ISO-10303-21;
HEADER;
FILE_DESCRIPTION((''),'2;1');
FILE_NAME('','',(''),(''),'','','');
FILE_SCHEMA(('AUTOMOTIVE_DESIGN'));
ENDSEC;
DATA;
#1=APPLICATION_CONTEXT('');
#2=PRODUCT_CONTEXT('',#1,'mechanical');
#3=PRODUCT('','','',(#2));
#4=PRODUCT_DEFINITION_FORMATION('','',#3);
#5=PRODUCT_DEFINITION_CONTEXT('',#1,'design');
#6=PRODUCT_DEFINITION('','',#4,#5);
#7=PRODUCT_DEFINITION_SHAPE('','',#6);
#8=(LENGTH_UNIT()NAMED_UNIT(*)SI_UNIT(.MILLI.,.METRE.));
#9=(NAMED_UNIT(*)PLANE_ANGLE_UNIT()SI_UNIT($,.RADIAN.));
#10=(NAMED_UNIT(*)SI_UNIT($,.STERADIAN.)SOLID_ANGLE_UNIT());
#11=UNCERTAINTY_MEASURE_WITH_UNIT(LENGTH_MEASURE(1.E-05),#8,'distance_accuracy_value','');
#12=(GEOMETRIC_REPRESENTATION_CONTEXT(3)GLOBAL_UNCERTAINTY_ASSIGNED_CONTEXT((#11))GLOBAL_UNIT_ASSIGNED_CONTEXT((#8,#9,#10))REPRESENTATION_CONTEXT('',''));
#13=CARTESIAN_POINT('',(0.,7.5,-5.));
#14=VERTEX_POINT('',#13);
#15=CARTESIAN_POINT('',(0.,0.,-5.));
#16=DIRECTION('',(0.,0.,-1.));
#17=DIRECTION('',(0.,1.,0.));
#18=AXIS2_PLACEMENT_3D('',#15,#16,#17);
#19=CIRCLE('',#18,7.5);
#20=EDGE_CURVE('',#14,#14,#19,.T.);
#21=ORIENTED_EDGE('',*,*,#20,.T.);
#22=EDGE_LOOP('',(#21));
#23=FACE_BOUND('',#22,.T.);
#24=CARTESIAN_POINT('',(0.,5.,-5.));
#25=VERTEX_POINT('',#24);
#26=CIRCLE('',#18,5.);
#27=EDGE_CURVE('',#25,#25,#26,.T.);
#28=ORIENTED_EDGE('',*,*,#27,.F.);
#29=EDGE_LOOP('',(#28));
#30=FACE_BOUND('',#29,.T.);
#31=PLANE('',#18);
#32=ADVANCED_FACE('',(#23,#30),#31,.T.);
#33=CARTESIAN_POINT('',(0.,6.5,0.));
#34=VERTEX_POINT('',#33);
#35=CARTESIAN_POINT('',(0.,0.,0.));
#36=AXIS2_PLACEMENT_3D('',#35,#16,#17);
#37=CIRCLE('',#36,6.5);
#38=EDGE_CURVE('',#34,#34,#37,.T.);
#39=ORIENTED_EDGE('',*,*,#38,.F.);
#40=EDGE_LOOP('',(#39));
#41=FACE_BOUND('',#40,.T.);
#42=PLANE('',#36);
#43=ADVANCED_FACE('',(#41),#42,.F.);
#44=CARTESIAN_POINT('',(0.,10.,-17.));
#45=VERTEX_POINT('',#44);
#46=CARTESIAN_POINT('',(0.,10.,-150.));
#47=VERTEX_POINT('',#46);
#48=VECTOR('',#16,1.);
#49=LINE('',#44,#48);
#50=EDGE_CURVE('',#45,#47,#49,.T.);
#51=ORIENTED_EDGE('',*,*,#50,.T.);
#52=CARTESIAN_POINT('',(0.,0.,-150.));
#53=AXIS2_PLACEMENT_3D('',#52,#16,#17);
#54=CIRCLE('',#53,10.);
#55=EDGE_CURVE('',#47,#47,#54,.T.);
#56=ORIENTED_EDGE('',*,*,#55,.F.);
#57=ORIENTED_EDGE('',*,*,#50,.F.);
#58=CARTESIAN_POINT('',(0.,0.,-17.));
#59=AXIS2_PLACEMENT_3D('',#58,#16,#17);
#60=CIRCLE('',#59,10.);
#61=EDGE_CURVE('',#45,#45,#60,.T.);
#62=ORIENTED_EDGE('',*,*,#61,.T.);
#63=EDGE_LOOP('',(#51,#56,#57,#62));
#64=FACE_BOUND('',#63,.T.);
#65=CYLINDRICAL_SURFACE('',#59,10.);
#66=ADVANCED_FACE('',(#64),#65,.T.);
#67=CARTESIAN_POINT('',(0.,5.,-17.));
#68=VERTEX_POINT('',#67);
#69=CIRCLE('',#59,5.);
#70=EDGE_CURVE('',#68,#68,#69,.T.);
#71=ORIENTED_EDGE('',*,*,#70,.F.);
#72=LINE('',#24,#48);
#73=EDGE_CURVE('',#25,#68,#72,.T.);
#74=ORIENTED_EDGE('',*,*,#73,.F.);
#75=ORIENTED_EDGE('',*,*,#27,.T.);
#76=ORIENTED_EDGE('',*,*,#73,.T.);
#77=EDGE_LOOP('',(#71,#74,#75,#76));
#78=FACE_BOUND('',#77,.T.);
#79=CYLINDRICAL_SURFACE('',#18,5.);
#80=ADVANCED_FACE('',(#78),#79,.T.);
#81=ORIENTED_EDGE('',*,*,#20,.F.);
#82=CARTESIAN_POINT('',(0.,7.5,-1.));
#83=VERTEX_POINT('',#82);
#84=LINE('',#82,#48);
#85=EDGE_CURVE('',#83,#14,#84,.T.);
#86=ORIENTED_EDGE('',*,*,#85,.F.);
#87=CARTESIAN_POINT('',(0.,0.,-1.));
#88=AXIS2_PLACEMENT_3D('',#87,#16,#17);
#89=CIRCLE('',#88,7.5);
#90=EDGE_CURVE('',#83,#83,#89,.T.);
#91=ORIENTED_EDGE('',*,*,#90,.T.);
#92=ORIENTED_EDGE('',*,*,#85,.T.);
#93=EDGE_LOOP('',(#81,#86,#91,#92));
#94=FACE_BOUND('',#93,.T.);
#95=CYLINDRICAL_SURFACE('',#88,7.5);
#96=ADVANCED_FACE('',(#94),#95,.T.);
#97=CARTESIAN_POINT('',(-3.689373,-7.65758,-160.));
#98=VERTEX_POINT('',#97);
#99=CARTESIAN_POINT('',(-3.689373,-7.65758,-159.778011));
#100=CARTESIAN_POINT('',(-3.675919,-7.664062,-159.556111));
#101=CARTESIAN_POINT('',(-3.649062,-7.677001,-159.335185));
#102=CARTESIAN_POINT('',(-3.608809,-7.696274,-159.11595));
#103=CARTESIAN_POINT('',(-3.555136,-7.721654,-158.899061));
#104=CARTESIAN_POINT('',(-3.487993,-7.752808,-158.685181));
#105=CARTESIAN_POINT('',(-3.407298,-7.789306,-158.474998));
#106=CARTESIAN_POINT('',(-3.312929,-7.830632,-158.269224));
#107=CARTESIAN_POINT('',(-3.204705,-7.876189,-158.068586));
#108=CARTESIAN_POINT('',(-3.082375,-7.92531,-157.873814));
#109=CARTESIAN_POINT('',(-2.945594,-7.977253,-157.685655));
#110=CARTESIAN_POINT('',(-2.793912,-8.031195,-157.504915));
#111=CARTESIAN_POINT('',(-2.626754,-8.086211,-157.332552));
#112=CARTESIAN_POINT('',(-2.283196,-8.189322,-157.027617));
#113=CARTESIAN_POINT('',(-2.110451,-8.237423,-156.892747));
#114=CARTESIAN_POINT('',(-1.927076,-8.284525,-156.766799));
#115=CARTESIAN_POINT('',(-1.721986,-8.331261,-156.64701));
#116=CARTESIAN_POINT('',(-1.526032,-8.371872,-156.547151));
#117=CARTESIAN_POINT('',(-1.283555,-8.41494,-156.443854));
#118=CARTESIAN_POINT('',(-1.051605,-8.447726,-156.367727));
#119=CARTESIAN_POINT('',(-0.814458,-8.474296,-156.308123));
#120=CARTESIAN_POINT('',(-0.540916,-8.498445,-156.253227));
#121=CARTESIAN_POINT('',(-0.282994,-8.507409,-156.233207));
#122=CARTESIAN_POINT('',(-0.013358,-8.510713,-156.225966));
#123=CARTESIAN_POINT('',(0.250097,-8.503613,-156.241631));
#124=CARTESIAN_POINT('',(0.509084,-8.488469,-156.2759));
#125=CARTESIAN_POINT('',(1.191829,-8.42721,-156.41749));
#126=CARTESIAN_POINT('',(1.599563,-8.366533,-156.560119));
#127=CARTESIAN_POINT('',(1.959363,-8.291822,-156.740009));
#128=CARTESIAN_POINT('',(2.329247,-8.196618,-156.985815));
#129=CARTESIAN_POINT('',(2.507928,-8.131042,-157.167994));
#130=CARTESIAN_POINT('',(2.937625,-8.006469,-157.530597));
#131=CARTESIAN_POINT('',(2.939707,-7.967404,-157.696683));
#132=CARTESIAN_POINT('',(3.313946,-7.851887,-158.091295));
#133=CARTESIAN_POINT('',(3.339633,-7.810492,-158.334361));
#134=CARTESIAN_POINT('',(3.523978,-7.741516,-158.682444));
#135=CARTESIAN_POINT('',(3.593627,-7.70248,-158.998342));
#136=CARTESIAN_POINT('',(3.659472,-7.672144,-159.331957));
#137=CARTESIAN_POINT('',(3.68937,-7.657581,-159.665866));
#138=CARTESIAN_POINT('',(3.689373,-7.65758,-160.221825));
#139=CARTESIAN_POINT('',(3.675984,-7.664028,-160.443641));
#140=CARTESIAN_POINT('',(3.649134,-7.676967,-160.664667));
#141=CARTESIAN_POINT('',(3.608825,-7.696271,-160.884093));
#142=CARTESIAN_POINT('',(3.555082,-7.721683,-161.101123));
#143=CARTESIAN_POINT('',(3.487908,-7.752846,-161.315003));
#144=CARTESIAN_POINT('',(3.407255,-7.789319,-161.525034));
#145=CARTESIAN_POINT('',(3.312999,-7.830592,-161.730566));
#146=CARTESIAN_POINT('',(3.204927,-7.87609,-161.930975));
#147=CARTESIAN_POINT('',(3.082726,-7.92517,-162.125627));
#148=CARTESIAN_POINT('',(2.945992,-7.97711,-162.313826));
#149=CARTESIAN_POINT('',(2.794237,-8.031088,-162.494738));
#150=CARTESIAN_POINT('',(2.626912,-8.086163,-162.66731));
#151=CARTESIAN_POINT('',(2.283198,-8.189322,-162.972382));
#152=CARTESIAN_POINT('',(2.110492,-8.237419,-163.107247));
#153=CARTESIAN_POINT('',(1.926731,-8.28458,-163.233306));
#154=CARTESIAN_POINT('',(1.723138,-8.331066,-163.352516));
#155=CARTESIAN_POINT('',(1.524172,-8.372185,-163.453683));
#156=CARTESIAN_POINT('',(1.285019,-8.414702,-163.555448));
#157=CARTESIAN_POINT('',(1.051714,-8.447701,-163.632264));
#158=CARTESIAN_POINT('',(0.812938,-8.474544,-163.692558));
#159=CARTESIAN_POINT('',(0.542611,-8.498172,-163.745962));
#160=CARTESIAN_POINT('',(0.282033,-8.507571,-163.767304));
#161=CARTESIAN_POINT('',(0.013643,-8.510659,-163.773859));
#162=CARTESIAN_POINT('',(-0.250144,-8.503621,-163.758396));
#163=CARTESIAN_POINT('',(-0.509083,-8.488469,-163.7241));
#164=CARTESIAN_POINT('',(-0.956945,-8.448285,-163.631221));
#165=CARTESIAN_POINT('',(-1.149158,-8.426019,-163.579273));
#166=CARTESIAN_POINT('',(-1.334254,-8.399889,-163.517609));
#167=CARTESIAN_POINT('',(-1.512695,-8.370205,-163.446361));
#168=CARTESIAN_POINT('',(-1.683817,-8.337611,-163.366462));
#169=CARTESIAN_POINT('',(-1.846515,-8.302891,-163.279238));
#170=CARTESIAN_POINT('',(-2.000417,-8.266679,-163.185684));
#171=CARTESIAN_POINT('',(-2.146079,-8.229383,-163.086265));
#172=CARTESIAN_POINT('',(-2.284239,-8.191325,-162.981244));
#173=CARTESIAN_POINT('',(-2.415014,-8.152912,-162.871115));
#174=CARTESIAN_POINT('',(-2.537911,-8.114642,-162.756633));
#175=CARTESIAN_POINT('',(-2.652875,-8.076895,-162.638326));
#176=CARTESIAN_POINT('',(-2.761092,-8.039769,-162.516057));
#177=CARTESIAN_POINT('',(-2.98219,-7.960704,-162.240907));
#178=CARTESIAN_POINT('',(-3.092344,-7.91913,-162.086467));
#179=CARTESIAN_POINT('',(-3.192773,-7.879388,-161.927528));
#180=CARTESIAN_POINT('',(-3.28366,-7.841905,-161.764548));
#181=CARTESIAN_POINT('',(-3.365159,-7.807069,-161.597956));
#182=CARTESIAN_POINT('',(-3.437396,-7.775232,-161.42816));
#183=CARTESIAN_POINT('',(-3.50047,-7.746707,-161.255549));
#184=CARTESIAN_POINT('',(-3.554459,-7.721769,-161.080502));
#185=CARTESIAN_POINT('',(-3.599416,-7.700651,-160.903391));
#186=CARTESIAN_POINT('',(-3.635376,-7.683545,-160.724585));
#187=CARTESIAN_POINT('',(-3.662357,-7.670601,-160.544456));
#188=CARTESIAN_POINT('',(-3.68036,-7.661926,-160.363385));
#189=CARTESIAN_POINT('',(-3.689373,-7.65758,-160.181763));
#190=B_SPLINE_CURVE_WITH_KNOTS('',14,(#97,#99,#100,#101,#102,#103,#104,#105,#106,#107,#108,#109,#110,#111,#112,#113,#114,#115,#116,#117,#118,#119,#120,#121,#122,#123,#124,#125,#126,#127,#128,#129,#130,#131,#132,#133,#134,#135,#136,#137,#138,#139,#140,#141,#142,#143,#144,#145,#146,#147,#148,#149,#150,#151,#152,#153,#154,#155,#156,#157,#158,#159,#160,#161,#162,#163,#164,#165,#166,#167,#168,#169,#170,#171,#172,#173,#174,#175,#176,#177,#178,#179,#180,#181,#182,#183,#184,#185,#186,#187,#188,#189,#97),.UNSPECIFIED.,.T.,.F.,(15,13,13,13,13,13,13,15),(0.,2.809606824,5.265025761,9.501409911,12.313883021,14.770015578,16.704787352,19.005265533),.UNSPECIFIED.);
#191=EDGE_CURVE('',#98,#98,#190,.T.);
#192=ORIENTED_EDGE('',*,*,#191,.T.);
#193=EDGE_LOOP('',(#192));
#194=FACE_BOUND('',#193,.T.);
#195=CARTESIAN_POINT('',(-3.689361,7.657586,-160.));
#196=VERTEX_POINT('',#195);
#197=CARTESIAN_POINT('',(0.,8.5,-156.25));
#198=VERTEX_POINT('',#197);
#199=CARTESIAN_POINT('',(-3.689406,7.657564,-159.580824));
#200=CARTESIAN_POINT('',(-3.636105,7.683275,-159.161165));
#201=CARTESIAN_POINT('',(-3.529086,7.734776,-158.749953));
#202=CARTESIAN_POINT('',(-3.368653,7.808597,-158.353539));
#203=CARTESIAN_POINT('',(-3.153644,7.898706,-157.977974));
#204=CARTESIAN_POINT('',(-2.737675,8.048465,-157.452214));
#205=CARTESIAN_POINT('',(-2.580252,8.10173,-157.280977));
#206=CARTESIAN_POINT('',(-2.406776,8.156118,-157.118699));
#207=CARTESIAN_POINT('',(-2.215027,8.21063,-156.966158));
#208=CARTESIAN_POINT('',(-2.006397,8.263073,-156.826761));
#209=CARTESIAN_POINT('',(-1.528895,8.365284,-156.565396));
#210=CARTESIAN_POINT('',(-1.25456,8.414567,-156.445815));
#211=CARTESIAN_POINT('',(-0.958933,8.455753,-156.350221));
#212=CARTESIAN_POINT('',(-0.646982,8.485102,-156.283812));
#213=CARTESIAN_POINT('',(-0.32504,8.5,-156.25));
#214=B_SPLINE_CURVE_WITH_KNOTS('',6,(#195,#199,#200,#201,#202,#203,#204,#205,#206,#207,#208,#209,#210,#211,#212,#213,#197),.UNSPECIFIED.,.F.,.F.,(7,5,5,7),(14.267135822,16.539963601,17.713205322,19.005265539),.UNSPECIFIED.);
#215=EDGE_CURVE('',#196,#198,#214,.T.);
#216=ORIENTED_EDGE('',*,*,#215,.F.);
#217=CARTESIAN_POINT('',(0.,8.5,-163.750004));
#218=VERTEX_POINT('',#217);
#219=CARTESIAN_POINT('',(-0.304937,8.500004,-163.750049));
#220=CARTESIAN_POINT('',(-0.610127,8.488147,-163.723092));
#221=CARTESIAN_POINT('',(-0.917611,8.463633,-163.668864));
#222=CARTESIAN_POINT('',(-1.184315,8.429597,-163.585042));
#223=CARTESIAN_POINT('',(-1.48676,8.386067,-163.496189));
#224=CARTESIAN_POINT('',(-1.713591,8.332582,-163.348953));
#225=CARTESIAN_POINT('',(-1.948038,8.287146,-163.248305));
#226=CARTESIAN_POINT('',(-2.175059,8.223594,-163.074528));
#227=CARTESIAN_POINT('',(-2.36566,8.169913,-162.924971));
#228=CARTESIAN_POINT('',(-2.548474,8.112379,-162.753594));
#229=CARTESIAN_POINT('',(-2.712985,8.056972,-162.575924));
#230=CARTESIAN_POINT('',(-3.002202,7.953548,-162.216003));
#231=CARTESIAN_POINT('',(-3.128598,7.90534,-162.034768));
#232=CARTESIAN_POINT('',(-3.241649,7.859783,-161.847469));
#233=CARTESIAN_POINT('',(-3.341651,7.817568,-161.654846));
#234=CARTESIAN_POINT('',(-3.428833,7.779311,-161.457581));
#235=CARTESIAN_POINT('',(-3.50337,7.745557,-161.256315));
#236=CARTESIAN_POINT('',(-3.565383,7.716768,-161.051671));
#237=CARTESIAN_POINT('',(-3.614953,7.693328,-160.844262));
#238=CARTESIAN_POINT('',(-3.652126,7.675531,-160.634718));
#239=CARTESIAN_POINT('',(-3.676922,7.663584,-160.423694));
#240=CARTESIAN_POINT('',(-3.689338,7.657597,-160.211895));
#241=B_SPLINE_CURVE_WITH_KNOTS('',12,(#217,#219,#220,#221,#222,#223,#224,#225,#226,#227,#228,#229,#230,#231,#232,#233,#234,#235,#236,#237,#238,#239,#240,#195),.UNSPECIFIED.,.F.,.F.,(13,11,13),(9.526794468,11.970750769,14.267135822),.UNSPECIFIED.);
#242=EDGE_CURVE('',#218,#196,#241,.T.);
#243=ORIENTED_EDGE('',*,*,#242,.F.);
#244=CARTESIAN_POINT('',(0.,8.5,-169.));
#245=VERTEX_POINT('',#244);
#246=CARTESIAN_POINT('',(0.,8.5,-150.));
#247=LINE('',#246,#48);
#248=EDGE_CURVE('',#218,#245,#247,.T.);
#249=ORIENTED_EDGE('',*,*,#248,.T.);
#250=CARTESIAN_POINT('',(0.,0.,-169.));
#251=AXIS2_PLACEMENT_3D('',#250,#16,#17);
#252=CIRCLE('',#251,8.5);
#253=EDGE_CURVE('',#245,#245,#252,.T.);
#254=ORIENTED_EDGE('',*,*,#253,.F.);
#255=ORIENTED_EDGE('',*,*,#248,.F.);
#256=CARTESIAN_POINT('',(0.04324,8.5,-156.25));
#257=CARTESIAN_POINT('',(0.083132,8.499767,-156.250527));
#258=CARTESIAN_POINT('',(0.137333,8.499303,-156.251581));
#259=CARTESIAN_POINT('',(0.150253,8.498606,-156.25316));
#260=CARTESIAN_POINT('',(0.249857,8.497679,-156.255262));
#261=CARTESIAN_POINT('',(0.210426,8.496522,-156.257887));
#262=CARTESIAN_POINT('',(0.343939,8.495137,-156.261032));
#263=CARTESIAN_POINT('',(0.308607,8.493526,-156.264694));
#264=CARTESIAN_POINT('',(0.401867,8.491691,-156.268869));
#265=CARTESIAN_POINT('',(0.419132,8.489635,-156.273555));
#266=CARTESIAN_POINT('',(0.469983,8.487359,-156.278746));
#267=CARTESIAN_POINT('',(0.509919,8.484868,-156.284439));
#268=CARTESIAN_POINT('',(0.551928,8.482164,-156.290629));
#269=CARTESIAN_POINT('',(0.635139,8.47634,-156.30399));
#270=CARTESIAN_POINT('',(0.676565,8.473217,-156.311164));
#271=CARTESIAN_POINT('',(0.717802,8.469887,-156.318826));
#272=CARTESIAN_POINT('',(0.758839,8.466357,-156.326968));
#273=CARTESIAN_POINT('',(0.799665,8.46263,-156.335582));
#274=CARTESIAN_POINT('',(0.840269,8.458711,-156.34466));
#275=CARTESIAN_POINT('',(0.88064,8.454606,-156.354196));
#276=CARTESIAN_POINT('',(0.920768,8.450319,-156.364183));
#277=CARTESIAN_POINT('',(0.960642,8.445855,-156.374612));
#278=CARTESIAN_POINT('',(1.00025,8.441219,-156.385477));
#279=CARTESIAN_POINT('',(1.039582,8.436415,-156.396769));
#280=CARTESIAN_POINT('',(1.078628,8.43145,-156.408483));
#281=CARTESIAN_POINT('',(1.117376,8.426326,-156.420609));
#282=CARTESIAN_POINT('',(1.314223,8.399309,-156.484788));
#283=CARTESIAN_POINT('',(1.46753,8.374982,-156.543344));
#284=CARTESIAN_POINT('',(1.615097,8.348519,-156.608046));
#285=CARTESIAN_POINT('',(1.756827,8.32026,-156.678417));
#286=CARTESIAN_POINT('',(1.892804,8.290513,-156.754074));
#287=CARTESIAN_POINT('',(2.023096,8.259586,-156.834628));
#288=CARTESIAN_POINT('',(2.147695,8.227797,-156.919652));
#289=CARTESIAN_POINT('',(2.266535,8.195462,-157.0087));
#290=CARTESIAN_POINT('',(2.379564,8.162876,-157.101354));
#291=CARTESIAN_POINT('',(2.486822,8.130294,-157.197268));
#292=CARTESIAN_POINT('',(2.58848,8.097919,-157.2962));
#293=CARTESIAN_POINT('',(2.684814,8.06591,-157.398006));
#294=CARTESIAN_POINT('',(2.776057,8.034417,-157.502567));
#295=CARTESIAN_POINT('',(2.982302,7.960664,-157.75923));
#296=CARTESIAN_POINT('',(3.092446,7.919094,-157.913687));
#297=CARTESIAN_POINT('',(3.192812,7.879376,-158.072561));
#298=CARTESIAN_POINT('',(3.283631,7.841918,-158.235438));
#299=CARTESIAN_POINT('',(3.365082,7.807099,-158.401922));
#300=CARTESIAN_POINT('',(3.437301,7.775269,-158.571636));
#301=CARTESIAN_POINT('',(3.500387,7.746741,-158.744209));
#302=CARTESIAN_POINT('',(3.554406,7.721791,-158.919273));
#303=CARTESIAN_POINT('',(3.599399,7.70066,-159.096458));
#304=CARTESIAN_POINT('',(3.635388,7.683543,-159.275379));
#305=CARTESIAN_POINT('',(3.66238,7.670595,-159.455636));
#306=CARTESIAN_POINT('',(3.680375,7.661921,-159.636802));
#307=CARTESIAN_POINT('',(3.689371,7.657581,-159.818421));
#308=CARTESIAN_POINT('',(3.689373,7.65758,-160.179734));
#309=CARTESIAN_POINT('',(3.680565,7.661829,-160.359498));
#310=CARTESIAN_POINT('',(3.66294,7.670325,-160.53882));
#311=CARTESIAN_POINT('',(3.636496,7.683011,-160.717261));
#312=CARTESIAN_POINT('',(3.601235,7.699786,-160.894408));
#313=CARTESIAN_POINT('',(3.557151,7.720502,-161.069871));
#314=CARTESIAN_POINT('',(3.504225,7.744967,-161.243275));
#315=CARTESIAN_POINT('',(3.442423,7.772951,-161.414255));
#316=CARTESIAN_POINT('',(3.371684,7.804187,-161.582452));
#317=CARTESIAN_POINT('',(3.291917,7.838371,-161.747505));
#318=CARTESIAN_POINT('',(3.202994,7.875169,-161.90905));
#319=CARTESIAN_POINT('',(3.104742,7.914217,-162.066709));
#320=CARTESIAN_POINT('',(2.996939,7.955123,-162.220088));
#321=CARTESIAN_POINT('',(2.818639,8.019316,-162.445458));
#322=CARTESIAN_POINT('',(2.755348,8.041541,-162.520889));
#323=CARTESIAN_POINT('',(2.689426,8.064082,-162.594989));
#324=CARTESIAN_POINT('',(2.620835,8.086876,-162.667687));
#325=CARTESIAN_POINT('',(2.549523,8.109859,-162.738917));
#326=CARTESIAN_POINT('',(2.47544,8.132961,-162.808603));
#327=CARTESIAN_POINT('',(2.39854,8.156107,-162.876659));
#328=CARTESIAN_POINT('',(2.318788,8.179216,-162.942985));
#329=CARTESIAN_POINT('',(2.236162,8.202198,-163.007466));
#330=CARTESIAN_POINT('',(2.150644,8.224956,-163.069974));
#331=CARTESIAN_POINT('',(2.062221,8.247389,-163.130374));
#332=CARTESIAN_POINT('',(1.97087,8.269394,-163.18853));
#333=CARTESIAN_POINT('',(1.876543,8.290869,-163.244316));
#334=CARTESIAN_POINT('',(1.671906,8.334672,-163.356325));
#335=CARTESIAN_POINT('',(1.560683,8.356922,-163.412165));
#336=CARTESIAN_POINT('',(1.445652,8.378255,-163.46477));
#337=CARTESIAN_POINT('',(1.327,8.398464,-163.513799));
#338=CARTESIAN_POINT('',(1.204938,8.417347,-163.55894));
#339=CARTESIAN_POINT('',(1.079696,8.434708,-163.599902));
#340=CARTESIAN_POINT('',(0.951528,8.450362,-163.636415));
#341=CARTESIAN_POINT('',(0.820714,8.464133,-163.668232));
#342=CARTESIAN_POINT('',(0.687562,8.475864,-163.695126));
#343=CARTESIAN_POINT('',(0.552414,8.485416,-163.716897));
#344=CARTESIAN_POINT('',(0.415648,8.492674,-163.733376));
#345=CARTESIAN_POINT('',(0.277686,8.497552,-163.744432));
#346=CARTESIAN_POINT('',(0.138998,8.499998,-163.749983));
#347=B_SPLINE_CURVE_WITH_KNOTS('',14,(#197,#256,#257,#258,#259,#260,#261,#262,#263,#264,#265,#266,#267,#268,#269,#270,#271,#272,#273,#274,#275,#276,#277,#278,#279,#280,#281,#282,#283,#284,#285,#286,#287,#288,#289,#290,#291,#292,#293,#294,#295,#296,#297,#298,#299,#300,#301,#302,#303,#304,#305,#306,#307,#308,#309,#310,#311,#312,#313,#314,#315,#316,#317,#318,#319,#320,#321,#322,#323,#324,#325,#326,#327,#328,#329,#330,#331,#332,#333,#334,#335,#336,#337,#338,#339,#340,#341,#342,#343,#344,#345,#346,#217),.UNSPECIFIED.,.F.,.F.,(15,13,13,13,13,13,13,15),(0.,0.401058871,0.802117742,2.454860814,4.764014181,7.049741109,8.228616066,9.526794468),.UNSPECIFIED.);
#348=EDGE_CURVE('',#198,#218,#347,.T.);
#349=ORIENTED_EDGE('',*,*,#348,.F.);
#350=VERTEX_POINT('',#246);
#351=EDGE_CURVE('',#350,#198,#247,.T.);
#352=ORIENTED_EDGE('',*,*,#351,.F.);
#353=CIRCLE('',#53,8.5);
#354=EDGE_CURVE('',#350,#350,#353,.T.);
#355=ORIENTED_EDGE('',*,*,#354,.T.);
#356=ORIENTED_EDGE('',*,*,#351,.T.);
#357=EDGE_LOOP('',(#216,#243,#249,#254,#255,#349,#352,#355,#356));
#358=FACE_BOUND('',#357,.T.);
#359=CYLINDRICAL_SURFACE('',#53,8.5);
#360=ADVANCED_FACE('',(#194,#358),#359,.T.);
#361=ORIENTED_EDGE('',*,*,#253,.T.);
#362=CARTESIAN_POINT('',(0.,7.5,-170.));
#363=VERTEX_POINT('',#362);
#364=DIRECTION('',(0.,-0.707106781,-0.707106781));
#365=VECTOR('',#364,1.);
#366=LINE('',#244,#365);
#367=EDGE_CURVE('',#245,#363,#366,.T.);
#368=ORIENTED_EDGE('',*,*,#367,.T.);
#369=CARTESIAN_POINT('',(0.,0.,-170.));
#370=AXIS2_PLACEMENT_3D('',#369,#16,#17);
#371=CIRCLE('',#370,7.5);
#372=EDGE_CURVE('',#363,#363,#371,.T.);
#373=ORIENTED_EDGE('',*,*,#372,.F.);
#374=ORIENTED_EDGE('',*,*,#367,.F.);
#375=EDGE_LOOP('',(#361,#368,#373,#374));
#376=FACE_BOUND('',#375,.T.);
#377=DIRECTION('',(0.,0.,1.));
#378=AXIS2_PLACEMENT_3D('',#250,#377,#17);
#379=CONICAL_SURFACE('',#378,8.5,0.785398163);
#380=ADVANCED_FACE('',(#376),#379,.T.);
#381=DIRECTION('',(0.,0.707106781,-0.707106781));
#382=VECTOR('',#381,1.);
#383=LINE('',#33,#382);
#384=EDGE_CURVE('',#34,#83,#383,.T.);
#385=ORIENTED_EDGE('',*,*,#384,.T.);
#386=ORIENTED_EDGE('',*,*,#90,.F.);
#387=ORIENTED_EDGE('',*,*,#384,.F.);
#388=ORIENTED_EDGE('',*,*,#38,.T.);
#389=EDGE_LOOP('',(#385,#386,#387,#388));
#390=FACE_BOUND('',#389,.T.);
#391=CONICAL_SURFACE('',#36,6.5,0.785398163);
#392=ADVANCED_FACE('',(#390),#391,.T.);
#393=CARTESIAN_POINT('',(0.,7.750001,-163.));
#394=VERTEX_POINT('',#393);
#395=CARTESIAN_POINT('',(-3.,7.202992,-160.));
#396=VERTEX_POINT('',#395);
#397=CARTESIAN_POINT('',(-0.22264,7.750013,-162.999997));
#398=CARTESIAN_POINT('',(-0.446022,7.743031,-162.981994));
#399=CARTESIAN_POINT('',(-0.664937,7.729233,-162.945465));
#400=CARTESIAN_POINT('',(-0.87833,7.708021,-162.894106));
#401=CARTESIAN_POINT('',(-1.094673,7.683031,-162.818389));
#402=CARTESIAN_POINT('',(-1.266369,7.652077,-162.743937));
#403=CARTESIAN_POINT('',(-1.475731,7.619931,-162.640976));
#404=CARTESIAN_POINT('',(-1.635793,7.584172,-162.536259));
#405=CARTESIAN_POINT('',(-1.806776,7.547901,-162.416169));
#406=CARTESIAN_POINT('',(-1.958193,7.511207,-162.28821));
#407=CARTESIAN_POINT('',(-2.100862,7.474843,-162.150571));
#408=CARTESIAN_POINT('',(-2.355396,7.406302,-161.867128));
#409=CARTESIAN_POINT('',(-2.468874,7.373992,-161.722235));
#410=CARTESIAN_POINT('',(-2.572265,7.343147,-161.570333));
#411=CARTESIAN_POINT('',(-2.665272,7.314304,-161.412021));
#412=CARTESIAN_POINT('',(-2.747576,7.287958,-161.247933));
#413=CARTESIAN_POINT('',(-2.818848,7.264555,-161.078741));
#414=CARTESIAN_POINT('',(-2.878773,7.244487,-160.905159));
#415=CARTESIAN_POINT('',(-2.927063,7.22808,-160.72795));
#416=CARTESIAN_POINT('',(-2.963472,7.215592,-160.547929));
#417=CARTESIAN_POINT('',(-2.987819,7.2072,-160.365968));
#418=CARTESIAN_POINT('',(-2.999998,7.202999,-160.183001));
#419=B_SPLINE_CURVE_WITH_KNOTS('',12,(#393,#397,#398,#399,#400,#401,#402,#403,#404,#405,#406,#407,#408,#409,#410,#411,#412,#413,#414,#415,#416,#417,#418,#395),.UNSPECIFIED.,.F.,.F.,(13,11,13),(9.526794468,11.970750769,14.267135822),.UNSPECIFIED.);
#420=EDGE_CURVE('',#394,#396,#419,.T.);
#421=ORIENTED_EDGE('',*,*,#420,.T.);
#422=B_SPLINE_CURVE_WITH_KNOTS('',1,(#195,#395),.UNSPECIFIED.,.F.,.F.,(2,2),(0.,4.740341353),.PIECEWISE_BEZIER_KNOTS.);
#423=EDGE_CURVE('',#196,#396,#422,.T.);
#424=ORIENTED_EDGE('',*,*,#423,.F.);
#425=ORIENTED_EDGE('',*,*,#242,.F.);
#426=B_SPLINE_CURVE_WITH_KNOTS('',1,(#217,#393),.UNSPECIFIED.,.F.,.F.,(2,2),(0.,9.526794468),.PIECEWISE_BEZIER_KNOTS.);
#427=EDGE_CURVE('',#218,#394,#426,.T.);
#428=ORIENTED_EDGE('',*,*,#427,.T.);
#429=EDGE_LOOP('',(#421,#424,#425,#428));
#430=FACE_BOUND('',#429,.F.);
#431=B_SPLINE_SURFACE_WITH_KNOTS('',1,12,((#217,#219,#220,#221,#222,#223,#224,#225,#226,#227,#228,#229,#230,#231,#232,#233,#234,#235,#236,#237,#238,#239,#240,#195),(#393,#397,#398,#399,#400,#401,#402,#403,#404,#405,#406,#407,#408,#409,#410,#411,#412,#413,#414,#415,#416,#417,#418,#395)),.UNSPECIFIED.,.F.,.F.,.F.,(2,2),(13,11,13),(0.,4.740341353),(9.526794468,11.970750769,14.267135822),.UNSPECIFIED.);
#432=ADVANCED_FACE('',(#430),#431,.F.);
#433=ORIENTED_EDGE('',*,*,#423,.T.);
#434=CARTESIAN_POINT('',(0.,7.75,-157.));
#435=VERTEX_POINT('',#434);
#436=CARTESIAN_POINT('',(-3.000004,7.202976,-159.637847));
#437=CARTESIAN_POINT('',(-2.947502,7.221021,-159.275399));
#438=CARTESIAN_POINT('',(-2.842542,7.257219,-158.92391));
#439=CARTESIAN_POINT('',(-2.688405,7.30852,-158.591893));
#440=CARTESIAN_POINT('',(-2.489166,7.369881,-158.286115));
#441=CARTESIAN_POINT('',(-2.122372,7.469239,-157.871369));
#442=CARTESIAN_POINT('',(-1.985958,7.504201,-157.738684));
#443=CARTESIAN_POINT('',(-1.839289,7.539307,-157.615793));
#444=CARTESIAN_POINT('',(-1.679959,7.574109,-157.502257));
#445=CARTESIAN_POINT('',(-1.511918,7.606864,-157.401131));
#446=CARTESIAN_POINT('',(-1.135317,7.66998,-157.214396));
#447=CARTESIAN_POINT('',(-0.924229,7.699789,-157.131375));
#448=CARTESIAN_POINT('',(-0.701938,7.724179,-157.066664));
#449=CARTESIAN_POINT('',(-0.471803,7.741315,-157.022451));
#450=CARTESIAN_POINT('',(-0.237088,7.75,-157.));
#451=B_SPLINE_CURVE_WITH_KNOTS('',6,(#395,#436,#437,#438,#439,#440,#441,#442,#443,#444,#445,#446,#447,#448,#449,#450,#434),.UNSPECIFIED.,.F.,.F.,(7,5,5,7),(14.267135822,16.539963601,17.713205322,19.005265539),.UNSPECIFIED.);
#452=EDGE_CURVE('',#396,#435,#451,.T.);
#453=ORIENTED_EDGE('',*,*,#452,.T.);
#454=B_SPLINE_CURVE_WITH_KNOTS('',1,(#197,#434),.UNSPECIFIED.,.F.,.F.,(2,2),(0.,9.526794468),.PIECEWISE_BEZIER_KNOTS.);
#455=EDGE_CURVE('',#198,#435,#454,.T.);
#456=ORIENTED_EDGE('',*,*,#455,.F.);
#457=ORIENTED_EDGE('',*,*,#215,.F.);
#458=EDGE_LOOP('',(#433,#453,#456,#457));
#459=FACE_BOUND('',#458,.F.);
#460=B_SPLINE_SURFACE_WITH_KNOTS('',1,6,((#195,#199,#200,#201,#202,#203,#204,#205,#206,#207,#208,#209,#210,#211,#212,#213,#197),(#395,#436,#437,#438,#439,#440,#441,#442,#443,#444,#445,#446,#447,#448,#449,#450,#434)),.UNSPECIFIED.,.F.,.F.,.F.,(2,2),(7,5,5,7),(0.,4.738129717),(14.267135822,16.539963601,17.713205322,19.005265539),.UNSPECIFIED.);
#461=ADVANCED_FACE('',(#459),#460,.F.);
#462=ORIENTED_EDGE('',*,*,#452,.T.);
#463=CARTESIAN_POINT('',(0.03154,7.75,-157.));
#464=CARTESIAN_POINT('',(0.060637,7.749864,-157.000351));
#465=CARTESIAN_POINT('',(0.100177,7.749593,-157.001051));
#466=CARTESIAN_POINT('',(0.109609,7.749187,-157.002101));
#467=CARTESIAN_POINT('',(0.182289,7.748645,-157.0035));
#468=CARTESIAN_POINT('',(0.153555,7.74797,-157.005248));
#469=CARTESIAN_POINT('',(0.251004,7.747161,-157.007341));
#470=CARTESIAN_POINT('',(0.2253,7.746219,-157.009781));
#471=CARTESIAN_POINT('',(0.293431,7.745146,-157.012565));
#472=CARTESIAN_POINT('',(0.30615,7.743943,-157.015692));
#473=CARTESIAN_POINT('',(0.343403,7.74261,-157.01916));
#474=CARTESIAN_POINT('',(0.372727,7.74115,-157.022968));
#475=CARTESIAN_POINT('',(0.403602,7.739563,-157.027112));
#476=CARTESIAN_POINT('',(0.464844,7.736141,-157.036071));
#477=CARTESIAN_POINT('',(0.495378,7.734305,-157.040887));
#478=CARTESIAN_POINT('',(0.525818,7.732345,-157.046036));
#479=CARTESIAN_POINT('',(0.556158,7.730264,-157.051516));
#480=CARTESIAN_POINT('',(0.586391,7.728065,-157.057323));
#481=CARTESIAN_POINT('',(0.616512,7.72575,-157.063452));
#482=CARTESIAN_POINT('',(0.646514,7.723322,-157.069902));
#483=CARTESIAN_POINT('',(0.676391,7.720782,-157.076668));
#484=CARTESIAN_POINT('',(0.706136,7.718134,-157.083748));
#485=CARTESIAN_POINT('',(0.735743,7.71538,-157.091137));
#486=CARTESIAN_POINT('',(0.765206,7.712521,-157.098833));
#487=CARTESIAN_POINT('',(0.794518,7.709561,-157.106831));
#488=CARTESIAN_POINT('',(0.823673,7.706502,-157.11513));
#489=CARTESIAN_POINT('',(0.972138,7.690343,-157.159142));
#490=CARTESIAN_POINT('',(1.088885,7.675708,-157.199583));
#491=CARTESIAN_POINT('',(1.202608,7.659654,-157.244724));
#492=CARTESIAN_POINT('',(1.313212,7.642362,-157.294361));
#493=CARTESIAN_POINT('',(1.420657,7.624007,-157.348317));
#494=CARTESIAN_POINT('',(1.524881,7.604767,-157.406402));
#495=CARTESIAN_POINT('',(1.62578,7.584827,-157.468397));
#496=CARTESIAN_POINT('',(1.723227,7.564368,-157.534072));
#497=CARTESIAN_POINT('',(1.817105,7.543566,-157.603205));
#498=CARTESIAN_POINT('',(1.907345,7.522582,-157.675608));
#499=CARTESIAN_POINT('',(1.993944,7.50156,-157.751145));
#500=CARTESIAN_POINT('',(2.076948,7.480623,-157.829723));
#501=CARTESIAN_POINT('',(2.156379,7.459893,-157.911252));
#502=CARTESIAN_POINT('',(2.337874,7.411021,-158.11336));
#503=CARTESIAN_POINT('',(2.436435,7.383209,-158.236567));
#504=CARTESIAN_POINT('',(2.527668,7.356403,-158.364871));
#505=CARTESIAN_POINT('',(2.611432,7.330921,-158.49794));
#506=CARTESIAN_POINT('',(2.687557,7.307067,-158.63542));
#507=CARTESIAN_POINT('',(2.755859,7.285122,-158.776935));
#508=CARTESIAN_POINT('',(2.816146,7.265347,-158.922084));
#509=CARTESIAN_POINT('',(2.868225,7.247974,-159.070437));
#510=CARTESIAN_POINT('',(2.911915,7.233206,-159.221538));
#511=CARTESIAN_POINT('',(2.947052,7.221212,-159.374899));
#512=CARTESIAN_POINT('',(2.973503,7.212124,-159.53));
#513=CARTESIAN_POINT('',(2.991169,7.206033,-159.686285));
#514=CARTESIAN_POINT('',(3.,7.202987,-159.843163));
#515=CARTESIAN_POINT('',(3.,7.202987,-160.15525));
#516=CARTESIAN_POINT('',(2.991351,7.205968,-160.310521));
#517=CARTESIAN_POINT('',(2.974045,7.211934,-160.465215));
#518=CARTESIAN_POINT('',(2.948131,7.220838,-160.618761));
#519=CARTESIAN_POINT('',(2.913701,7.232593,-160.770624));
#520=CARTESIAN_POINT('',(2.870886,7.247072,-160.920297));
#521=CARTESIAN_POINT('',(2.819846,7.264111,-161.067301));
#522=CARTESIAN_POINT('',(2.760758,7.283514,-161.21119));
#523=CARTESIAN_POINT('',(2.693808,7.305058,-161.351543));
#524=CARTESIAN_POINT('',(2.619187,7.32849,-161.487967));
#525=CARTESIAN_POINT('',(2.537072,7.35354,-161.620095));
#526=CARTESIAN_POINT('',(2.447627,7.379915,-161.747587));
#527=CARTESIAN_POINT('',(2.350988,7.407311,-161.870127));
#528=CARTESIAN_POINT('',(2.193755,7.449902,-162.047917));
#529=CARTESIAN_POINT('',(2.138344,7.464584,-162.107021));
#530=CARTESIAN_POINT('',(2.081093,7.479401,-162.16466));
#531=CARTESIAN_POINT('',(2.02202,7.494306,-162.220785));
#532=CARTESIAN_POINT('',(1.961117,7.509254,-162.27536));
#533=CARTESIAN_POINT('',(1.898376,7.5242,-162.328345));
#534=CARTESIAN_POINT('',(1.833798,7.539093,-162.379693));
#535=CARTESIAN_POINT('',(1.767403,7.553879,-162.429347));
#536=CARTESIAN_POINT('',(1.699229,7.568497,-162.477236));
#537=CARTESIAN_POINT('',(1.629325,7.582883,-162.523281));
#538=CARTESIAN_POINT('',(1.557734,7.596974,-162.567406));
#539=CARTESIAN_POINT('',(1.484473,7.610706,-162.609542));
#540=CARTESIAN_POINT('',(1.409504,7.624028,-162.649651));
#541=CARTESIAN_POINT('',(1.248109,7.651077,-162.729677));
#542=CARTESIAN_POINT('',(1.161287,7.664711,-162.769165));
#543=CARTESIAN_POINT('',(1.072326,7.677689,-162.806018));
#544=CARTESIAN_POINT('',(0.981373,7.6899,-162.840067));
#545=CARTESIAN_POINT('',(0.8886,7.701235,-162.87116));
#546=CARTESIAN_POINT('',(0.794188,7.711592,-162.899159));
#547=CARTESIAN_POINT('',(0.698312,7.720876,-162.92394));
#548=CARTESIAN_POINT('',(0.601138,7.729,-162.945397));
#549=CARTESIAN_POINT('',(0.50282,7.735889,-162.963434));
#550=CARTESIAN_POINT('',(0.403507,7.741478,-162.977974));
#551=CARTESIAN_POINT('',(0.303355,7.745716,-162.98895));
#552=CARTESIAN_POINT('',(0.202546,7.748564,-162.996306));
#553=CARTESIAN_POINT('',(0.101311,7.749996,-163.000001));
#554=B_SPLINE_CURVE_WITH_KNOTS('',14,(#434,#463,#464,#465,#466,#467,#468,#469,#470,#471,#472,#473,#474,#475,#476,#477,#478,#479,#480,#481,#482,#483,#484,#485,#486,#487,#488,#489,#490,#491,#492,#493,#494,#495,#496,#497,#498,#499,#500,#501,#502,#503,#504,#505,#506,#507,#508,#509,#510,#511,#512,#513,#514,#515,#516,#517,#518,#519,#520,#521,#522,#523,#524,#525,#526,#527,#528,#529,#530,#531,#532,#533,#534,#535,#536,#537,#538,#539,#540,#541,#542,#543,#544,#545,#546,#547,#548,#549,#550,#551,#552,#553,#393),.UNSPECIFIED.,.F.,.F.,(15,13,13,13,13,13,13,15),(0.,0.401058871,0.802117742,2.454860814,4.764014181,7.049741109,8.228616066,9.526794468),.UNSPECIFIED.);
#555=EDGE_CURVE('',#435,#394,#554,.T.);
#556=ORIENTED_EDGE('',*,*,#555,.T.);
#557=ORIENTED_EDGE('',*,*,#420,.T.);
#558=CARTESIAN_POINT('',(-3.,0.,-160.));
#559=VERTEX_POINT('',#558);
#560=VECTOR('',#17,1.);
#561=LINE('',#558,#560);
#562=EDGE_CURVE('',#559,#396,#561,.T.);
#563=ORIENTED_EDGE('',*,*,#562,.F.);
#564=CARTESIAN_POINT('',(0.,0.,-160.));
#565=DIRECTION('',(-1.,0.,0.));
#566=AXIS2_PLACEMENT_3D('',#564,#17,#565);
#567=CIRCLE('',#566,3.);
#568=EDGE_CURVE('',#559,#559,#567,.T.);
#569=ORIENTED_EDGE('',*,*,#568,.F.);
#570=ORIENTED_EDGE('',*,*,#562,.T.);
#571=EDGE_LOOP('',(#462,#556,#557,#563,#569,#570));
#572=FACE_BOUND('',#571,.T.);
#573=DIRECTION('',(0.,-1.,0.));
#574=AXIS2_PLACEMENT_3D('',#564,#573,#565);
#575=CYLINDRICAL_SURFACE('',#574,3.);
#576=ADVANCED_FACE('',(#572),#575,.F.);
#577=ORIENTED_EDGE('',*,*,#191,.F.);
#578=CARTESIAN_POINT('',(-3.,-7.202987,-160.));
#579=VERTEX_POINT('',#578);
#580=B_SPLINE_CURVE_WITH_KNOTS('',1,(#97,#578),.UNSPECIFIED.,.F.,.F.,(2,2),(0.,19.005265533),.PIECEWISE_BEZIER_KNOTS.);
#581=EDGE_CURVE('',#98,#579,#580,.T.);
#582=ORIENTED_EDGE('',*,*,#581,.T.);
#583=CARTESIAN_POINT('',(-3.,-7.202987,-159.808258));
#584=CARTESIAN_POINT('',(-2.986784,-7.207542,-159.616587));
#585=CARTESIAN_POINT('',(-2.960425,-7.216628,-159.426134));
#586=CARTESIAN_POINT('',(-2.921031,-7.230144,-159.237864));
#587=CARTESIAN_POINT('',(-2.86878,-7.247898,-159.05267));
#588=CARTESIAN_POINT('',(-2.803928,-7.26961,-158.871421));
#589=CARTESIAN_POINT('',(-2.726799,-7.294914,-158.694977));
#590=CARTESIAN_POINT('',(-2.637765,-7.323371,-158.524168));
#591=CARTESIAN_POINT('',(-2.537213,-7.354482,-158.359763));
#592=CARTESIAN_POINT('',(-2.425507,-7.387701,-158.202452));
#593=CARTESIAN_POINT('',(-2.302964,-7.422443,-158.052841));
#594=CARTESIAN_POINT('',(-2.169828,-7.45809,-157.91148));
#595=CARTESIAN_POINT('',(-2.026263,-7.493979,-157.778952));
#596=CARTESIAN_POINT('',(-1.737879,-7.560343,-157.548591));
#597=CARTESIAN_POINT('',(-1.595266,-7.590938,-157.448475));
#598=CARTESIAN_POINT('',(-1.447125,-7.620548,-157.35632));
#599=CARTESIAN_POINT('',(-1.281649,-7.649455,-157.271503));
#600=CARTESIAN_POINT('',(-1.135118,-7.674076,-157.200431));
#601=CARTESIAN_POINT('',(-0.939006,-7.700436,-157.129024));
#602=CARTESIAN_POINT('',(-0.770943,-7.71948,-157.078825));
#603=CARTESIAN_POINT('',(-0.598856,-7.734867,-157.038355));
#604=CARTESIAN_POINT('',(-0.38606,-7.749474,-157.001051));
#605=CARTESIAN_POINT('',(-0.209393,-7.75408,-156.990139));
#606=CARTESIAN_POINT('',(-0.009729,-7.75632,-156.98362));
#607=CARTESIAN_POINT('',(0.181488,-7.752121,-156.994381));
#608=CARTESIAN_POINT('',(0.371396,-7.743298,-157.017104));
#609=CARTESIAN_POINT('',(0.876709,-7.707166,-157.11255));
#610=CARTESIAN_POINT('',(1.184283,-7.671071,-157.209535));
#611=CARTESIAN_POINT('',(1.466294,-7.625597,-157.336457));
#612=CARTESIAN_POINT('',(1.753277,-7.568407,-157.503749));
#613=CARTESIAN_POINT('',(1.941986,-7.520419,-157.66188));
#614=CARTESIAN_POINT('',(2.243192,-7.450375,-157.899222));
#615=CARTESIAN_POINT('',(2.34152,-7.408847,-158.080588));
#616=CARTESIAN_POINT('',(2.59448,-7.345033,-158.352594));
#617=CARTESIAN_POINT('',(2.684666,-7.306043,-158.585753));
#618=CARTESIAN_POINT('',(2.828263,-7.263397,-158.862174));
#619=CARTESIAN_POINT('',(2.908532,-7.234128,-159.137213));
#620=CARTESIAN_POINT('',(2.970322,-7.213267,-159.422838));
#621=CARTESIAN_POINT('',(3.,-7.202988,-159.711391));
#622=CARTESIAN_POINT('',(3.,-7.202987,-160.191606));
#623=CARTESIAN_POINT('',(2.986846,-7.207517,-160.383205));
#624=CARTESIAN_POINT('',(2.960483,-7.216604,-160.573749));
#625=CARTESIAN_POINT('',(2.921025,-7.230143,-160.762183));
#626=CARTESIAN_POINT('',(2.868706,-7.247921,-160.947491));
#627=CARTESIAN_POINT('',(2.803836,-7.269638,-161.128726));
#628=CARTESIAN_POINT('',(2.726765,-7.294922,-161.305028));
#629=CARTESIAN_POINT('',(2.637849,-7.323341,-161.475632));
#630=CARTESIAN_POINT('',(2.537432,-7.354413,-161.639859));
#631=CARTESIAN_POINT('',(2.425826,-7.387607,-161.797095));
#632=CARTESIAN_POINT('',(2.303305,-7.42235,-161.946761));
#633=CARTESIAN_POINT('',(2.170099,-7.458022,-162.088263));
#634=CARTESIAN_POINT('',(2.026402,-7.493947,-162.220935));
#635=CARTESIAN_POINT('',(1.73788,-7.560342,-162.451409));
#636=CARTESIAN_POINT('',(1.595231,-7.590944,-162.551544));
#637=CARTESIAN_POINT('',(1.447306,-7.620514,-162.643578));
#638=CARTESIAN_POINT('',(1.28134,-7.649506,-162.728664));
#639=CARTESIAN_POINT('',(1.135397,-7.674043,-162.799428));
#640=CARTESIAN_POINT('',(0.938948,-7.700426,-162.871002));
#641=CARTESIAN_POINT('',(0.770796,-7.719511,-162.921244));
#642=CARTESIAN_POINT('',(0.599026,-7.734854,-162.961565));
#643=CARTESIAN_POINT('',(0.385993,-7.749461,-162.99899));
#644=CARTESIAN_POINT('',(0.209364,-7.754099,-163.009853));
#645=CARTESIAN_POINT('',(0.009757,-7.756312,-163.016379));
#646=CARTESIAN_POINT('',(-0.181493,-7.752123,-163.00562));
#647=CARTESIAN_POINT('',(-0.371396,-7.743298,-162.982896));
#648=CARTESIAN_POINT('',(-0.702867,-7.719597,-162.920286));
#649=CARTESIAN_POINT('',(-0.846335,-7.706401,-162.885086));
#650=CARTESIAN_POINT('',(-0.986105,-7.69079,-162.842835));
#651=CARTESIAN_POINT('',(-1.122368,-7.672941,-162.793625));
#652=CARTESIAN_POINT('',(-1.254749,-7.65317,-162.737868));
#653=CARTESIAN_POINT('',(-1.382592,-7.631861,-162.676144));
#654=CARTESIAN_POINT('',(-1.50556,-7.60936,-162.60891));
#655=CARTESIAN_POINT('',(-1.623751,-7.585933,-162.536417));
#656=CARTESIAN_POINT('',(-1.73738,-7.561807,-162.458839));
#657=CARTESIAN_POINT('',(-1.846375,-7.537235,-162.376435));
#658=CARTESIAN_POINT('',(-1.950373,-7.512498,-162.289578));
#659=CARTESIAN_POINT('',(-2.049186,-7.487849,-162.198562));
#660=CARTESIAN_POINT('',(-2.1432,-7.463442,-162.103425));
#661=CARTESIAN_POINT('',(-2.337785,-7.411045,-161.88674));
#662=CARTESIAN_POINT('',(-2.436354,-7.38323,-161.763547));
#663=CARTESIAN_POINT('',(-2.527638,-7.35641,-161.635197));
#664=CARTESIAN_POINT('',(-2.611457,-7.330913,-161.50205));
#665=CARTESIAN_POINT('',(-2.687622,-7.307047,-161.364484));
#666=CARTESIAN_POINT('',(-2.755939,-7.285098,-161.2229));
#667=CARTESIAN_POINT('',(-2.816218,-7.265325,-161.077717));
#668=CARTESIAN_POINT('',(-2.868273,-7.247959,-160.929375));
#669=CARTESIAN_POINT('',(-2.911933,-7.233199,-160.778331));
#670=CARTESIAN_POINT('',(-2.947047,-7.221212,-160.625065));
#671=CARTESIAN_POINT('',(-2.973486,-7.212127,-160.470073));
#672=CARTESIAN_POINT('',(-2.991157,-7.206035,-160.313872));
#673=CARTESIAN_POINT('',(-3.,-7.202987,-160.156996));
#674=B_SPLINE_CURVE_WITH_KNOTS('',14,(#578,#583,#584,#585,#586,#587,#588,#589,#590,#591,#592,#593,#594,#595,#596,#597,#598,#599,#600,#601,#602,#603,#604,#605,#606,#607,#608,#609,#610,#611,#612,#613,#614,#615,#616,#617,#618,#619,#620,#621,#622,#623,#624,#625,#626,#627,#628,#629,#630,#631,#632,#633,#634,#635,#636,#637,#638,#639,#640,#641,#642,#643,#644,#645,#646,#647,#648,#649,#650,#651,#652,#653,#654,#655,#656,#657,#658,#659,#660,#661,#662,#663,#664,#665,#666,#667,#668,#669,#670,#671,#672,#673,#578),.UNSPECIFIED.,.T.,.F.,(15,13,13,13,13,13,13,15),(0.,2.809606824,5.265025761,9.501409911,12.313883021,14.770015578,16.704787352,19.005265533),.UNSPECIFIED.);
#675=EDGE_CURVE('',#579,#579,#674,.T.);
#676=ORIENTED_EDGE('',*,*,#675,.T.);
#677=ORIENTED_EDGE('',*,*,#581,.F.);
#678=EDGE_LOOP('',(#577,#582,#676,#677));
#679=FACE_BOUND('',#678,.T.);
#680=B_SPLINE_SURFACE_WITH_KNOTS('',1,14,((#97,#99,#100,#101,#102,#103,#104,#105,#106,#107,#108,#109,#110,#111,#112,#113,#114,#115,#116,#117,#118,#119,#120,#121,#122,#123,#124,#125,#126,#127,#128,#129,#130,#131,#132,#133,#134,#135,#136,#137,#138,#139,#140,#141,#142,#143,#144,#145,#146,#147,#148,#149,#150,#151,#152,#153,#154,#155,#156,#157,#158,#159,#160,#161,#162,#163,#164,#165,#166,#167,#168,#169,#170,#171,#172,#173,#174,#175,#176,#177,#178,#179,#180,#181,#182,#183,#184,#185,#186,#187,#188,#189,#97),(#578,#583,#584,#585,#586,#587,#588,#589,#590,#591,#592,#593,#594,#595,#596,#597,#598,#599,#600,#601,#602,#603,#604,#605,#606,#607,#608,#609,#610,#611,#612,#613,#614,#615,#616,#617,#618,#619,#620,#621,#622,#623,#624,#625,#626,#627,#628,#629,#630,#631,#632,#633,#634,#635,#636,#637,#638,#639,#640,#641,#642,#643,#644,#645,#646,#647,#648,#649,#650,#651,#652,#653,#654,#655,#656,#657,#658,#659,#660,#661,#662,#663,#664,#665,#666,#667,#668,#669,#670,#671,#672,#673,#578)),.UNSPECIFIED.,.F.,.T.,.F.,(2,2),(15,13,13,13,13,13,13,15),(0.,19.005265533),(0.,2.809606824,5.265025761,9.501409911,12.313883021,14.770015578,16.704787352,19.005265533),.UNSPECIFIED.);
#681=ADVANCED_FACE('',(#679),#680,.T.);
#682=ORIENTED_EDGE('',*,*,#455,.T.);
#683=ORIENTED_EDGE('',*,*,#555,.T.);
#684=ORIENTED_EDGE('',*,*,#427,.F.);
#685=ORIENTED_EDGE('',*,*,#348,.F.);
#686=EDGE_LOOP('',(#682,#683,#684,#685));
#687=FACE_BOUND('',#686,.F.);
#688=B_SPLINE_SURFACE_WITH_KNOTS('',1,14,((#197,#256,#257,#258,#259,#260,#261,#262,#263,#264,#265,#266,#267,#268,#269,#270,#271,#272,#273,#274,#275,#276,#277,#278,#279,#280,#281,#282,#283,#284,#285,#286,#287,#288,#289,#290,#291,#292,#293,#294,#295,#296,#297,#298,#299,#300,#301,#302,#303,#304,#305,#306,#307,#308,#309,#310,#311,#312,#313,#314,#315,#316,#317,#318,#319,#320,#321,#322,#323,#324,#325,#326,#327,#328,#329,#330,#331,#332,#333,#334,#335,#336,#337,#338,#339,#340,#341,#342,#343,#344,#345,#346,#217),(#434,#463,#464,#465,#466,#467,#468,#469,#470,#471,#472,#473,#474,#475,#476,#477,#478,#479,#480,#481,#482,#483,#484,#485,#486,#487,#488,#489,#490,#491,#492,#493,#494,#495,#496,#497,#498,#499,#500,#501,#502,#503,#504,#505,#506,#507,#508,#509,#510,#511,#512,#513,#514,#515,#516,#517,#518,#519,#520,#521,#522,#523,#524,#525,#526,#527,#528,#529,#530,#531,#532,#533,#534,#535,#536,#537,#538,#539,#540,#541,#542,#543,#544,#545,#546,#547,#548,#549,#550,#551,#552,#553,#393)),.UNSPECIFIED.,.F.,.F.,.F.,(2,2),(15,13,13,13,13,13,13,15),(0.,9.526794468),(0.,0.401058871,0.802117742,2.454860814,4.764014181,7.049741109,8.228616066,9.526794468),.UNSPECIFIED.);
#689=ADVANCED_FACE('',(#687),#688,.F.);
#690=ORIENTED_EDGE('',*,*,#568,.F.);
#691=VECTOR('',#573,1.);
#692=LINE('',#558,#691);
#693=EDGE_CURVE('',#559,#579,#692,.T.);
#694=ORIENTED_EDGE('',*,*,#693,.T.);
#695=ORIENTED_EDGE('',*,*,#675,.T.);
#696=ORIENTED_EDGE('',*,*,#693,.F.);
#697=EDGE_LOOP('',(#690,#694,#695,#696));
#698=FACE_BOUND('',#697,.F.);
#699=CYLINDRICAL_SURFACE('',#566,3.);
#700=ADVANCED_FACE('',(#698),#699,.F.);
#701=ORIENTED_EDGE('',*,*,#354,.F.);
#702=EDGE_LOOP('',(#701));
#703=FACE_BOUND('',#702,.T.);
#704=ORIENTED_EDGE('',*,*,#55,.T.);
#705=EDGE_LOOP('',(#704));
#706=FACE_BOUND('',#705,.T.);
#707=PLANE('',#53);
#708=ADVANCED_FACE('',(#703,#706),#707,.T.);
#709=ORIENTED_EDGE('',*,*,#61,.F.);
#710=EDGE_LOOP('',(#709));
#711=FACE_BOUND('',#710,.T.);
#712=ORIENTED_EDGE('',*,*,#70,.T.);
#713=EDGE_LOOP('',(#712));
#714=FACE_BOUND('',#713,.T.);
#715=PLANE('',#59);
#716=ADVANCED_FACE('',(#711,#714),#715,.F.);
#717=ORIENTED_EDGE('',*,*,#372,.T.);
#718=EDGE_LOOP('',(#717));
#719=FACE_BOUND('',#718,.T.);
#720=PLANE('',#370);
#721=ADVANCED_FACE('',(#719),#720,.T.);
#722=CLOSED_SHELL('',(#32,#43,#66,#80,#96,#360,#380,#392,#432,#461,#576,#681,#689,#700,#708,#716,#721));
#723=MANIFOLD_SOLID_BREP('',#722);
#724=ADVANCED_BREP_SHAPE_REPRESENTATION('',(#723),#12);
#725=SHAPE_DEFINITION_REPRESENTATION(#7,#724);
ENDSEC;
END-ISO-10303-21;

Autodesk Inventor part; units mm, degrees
ref_plane "YZ Plane" through (0, 0, 0) normal (1, 0, 0) x (0, 1, 0)
ref_plane "XZ Plane" through (0, 0, 0) normal (0, 1, 0) x (-1, 0, 0)
ref_plane "XY Plane" through (0, 0, 0) normal (0, 0, 1) x (1, 0, 0)
sketch "Sketch1" plane through (0, 0, 0) normal (1, 0, 0) x (0, 1, 0)
  line L0 (0, 0) -> (0, -170)
  line L1 (0, 0) -> (6.5, 0)
  line L2 (6.5, 0) -> (7.5, -1)
  line L3 (7.5, -1) -> (7.5, -5)
  line L4 (7.5, -5) -> (5, -5)
  line L5 (5, -5) -> (5, -17)
  line L6 (5, -17) -> (10, -17)
  line L7 (10, -17) -> (10, -150)
  line L8 (10, -150) -> (8.5, -150)
  line L9 (8.5, -150) -> (8.5, -169)
  line L10 (7.5, -170) -> (0, -170)
  line L11 (8.5, -169) -> (7.5, -170)
  point P0 (8.5, -170)
  dimension "d0" = 170
  dimension "d1" = 17
  dimension "d2" = 20
  dimension "d3" = 10
  dimension "d4" = 15
  dimension "d5" = 5
  dimension "d6" = 1
  dimension "d7" = 1
  dimension "d8" = 12
  dimension "d9" = 20
  dimension "d10" = 1
  dimension "d11" = 1
revolve "Revolution1" add sketch "Sketch1" angle 360 about axis through (0, 0, 0) along (0, 0, -1)
sketch "Sketch2" plane through (0, 0, 0) normal (0, 1, 0) x (-1, 0, 0)
  circle A0 centre (0, -160) radius 3
  line L0 (-7.5, -170) -> (7.5, -170) projected
  point P0 (0, 0)
  dimension "d13" = 6
  dimension "d14" = 10
extrude "Extrusion1" cut sketch "Sketch2" along normal through all both and the other way through all
chamfer "Chamfer1" distance 0.75 angle 45 4 edges at (3, 7.953, -159.9995) (-2.2741, 8.1902, -158.0433) (-2.2734, 8.1903, -161.9575) (3, -7.953, -160.0011)
thread "Thread1" size "TR20x2" class "7e" standard "ISO Metric Trapezoidal Threads" full length
equation "\"d11\" = d10"
